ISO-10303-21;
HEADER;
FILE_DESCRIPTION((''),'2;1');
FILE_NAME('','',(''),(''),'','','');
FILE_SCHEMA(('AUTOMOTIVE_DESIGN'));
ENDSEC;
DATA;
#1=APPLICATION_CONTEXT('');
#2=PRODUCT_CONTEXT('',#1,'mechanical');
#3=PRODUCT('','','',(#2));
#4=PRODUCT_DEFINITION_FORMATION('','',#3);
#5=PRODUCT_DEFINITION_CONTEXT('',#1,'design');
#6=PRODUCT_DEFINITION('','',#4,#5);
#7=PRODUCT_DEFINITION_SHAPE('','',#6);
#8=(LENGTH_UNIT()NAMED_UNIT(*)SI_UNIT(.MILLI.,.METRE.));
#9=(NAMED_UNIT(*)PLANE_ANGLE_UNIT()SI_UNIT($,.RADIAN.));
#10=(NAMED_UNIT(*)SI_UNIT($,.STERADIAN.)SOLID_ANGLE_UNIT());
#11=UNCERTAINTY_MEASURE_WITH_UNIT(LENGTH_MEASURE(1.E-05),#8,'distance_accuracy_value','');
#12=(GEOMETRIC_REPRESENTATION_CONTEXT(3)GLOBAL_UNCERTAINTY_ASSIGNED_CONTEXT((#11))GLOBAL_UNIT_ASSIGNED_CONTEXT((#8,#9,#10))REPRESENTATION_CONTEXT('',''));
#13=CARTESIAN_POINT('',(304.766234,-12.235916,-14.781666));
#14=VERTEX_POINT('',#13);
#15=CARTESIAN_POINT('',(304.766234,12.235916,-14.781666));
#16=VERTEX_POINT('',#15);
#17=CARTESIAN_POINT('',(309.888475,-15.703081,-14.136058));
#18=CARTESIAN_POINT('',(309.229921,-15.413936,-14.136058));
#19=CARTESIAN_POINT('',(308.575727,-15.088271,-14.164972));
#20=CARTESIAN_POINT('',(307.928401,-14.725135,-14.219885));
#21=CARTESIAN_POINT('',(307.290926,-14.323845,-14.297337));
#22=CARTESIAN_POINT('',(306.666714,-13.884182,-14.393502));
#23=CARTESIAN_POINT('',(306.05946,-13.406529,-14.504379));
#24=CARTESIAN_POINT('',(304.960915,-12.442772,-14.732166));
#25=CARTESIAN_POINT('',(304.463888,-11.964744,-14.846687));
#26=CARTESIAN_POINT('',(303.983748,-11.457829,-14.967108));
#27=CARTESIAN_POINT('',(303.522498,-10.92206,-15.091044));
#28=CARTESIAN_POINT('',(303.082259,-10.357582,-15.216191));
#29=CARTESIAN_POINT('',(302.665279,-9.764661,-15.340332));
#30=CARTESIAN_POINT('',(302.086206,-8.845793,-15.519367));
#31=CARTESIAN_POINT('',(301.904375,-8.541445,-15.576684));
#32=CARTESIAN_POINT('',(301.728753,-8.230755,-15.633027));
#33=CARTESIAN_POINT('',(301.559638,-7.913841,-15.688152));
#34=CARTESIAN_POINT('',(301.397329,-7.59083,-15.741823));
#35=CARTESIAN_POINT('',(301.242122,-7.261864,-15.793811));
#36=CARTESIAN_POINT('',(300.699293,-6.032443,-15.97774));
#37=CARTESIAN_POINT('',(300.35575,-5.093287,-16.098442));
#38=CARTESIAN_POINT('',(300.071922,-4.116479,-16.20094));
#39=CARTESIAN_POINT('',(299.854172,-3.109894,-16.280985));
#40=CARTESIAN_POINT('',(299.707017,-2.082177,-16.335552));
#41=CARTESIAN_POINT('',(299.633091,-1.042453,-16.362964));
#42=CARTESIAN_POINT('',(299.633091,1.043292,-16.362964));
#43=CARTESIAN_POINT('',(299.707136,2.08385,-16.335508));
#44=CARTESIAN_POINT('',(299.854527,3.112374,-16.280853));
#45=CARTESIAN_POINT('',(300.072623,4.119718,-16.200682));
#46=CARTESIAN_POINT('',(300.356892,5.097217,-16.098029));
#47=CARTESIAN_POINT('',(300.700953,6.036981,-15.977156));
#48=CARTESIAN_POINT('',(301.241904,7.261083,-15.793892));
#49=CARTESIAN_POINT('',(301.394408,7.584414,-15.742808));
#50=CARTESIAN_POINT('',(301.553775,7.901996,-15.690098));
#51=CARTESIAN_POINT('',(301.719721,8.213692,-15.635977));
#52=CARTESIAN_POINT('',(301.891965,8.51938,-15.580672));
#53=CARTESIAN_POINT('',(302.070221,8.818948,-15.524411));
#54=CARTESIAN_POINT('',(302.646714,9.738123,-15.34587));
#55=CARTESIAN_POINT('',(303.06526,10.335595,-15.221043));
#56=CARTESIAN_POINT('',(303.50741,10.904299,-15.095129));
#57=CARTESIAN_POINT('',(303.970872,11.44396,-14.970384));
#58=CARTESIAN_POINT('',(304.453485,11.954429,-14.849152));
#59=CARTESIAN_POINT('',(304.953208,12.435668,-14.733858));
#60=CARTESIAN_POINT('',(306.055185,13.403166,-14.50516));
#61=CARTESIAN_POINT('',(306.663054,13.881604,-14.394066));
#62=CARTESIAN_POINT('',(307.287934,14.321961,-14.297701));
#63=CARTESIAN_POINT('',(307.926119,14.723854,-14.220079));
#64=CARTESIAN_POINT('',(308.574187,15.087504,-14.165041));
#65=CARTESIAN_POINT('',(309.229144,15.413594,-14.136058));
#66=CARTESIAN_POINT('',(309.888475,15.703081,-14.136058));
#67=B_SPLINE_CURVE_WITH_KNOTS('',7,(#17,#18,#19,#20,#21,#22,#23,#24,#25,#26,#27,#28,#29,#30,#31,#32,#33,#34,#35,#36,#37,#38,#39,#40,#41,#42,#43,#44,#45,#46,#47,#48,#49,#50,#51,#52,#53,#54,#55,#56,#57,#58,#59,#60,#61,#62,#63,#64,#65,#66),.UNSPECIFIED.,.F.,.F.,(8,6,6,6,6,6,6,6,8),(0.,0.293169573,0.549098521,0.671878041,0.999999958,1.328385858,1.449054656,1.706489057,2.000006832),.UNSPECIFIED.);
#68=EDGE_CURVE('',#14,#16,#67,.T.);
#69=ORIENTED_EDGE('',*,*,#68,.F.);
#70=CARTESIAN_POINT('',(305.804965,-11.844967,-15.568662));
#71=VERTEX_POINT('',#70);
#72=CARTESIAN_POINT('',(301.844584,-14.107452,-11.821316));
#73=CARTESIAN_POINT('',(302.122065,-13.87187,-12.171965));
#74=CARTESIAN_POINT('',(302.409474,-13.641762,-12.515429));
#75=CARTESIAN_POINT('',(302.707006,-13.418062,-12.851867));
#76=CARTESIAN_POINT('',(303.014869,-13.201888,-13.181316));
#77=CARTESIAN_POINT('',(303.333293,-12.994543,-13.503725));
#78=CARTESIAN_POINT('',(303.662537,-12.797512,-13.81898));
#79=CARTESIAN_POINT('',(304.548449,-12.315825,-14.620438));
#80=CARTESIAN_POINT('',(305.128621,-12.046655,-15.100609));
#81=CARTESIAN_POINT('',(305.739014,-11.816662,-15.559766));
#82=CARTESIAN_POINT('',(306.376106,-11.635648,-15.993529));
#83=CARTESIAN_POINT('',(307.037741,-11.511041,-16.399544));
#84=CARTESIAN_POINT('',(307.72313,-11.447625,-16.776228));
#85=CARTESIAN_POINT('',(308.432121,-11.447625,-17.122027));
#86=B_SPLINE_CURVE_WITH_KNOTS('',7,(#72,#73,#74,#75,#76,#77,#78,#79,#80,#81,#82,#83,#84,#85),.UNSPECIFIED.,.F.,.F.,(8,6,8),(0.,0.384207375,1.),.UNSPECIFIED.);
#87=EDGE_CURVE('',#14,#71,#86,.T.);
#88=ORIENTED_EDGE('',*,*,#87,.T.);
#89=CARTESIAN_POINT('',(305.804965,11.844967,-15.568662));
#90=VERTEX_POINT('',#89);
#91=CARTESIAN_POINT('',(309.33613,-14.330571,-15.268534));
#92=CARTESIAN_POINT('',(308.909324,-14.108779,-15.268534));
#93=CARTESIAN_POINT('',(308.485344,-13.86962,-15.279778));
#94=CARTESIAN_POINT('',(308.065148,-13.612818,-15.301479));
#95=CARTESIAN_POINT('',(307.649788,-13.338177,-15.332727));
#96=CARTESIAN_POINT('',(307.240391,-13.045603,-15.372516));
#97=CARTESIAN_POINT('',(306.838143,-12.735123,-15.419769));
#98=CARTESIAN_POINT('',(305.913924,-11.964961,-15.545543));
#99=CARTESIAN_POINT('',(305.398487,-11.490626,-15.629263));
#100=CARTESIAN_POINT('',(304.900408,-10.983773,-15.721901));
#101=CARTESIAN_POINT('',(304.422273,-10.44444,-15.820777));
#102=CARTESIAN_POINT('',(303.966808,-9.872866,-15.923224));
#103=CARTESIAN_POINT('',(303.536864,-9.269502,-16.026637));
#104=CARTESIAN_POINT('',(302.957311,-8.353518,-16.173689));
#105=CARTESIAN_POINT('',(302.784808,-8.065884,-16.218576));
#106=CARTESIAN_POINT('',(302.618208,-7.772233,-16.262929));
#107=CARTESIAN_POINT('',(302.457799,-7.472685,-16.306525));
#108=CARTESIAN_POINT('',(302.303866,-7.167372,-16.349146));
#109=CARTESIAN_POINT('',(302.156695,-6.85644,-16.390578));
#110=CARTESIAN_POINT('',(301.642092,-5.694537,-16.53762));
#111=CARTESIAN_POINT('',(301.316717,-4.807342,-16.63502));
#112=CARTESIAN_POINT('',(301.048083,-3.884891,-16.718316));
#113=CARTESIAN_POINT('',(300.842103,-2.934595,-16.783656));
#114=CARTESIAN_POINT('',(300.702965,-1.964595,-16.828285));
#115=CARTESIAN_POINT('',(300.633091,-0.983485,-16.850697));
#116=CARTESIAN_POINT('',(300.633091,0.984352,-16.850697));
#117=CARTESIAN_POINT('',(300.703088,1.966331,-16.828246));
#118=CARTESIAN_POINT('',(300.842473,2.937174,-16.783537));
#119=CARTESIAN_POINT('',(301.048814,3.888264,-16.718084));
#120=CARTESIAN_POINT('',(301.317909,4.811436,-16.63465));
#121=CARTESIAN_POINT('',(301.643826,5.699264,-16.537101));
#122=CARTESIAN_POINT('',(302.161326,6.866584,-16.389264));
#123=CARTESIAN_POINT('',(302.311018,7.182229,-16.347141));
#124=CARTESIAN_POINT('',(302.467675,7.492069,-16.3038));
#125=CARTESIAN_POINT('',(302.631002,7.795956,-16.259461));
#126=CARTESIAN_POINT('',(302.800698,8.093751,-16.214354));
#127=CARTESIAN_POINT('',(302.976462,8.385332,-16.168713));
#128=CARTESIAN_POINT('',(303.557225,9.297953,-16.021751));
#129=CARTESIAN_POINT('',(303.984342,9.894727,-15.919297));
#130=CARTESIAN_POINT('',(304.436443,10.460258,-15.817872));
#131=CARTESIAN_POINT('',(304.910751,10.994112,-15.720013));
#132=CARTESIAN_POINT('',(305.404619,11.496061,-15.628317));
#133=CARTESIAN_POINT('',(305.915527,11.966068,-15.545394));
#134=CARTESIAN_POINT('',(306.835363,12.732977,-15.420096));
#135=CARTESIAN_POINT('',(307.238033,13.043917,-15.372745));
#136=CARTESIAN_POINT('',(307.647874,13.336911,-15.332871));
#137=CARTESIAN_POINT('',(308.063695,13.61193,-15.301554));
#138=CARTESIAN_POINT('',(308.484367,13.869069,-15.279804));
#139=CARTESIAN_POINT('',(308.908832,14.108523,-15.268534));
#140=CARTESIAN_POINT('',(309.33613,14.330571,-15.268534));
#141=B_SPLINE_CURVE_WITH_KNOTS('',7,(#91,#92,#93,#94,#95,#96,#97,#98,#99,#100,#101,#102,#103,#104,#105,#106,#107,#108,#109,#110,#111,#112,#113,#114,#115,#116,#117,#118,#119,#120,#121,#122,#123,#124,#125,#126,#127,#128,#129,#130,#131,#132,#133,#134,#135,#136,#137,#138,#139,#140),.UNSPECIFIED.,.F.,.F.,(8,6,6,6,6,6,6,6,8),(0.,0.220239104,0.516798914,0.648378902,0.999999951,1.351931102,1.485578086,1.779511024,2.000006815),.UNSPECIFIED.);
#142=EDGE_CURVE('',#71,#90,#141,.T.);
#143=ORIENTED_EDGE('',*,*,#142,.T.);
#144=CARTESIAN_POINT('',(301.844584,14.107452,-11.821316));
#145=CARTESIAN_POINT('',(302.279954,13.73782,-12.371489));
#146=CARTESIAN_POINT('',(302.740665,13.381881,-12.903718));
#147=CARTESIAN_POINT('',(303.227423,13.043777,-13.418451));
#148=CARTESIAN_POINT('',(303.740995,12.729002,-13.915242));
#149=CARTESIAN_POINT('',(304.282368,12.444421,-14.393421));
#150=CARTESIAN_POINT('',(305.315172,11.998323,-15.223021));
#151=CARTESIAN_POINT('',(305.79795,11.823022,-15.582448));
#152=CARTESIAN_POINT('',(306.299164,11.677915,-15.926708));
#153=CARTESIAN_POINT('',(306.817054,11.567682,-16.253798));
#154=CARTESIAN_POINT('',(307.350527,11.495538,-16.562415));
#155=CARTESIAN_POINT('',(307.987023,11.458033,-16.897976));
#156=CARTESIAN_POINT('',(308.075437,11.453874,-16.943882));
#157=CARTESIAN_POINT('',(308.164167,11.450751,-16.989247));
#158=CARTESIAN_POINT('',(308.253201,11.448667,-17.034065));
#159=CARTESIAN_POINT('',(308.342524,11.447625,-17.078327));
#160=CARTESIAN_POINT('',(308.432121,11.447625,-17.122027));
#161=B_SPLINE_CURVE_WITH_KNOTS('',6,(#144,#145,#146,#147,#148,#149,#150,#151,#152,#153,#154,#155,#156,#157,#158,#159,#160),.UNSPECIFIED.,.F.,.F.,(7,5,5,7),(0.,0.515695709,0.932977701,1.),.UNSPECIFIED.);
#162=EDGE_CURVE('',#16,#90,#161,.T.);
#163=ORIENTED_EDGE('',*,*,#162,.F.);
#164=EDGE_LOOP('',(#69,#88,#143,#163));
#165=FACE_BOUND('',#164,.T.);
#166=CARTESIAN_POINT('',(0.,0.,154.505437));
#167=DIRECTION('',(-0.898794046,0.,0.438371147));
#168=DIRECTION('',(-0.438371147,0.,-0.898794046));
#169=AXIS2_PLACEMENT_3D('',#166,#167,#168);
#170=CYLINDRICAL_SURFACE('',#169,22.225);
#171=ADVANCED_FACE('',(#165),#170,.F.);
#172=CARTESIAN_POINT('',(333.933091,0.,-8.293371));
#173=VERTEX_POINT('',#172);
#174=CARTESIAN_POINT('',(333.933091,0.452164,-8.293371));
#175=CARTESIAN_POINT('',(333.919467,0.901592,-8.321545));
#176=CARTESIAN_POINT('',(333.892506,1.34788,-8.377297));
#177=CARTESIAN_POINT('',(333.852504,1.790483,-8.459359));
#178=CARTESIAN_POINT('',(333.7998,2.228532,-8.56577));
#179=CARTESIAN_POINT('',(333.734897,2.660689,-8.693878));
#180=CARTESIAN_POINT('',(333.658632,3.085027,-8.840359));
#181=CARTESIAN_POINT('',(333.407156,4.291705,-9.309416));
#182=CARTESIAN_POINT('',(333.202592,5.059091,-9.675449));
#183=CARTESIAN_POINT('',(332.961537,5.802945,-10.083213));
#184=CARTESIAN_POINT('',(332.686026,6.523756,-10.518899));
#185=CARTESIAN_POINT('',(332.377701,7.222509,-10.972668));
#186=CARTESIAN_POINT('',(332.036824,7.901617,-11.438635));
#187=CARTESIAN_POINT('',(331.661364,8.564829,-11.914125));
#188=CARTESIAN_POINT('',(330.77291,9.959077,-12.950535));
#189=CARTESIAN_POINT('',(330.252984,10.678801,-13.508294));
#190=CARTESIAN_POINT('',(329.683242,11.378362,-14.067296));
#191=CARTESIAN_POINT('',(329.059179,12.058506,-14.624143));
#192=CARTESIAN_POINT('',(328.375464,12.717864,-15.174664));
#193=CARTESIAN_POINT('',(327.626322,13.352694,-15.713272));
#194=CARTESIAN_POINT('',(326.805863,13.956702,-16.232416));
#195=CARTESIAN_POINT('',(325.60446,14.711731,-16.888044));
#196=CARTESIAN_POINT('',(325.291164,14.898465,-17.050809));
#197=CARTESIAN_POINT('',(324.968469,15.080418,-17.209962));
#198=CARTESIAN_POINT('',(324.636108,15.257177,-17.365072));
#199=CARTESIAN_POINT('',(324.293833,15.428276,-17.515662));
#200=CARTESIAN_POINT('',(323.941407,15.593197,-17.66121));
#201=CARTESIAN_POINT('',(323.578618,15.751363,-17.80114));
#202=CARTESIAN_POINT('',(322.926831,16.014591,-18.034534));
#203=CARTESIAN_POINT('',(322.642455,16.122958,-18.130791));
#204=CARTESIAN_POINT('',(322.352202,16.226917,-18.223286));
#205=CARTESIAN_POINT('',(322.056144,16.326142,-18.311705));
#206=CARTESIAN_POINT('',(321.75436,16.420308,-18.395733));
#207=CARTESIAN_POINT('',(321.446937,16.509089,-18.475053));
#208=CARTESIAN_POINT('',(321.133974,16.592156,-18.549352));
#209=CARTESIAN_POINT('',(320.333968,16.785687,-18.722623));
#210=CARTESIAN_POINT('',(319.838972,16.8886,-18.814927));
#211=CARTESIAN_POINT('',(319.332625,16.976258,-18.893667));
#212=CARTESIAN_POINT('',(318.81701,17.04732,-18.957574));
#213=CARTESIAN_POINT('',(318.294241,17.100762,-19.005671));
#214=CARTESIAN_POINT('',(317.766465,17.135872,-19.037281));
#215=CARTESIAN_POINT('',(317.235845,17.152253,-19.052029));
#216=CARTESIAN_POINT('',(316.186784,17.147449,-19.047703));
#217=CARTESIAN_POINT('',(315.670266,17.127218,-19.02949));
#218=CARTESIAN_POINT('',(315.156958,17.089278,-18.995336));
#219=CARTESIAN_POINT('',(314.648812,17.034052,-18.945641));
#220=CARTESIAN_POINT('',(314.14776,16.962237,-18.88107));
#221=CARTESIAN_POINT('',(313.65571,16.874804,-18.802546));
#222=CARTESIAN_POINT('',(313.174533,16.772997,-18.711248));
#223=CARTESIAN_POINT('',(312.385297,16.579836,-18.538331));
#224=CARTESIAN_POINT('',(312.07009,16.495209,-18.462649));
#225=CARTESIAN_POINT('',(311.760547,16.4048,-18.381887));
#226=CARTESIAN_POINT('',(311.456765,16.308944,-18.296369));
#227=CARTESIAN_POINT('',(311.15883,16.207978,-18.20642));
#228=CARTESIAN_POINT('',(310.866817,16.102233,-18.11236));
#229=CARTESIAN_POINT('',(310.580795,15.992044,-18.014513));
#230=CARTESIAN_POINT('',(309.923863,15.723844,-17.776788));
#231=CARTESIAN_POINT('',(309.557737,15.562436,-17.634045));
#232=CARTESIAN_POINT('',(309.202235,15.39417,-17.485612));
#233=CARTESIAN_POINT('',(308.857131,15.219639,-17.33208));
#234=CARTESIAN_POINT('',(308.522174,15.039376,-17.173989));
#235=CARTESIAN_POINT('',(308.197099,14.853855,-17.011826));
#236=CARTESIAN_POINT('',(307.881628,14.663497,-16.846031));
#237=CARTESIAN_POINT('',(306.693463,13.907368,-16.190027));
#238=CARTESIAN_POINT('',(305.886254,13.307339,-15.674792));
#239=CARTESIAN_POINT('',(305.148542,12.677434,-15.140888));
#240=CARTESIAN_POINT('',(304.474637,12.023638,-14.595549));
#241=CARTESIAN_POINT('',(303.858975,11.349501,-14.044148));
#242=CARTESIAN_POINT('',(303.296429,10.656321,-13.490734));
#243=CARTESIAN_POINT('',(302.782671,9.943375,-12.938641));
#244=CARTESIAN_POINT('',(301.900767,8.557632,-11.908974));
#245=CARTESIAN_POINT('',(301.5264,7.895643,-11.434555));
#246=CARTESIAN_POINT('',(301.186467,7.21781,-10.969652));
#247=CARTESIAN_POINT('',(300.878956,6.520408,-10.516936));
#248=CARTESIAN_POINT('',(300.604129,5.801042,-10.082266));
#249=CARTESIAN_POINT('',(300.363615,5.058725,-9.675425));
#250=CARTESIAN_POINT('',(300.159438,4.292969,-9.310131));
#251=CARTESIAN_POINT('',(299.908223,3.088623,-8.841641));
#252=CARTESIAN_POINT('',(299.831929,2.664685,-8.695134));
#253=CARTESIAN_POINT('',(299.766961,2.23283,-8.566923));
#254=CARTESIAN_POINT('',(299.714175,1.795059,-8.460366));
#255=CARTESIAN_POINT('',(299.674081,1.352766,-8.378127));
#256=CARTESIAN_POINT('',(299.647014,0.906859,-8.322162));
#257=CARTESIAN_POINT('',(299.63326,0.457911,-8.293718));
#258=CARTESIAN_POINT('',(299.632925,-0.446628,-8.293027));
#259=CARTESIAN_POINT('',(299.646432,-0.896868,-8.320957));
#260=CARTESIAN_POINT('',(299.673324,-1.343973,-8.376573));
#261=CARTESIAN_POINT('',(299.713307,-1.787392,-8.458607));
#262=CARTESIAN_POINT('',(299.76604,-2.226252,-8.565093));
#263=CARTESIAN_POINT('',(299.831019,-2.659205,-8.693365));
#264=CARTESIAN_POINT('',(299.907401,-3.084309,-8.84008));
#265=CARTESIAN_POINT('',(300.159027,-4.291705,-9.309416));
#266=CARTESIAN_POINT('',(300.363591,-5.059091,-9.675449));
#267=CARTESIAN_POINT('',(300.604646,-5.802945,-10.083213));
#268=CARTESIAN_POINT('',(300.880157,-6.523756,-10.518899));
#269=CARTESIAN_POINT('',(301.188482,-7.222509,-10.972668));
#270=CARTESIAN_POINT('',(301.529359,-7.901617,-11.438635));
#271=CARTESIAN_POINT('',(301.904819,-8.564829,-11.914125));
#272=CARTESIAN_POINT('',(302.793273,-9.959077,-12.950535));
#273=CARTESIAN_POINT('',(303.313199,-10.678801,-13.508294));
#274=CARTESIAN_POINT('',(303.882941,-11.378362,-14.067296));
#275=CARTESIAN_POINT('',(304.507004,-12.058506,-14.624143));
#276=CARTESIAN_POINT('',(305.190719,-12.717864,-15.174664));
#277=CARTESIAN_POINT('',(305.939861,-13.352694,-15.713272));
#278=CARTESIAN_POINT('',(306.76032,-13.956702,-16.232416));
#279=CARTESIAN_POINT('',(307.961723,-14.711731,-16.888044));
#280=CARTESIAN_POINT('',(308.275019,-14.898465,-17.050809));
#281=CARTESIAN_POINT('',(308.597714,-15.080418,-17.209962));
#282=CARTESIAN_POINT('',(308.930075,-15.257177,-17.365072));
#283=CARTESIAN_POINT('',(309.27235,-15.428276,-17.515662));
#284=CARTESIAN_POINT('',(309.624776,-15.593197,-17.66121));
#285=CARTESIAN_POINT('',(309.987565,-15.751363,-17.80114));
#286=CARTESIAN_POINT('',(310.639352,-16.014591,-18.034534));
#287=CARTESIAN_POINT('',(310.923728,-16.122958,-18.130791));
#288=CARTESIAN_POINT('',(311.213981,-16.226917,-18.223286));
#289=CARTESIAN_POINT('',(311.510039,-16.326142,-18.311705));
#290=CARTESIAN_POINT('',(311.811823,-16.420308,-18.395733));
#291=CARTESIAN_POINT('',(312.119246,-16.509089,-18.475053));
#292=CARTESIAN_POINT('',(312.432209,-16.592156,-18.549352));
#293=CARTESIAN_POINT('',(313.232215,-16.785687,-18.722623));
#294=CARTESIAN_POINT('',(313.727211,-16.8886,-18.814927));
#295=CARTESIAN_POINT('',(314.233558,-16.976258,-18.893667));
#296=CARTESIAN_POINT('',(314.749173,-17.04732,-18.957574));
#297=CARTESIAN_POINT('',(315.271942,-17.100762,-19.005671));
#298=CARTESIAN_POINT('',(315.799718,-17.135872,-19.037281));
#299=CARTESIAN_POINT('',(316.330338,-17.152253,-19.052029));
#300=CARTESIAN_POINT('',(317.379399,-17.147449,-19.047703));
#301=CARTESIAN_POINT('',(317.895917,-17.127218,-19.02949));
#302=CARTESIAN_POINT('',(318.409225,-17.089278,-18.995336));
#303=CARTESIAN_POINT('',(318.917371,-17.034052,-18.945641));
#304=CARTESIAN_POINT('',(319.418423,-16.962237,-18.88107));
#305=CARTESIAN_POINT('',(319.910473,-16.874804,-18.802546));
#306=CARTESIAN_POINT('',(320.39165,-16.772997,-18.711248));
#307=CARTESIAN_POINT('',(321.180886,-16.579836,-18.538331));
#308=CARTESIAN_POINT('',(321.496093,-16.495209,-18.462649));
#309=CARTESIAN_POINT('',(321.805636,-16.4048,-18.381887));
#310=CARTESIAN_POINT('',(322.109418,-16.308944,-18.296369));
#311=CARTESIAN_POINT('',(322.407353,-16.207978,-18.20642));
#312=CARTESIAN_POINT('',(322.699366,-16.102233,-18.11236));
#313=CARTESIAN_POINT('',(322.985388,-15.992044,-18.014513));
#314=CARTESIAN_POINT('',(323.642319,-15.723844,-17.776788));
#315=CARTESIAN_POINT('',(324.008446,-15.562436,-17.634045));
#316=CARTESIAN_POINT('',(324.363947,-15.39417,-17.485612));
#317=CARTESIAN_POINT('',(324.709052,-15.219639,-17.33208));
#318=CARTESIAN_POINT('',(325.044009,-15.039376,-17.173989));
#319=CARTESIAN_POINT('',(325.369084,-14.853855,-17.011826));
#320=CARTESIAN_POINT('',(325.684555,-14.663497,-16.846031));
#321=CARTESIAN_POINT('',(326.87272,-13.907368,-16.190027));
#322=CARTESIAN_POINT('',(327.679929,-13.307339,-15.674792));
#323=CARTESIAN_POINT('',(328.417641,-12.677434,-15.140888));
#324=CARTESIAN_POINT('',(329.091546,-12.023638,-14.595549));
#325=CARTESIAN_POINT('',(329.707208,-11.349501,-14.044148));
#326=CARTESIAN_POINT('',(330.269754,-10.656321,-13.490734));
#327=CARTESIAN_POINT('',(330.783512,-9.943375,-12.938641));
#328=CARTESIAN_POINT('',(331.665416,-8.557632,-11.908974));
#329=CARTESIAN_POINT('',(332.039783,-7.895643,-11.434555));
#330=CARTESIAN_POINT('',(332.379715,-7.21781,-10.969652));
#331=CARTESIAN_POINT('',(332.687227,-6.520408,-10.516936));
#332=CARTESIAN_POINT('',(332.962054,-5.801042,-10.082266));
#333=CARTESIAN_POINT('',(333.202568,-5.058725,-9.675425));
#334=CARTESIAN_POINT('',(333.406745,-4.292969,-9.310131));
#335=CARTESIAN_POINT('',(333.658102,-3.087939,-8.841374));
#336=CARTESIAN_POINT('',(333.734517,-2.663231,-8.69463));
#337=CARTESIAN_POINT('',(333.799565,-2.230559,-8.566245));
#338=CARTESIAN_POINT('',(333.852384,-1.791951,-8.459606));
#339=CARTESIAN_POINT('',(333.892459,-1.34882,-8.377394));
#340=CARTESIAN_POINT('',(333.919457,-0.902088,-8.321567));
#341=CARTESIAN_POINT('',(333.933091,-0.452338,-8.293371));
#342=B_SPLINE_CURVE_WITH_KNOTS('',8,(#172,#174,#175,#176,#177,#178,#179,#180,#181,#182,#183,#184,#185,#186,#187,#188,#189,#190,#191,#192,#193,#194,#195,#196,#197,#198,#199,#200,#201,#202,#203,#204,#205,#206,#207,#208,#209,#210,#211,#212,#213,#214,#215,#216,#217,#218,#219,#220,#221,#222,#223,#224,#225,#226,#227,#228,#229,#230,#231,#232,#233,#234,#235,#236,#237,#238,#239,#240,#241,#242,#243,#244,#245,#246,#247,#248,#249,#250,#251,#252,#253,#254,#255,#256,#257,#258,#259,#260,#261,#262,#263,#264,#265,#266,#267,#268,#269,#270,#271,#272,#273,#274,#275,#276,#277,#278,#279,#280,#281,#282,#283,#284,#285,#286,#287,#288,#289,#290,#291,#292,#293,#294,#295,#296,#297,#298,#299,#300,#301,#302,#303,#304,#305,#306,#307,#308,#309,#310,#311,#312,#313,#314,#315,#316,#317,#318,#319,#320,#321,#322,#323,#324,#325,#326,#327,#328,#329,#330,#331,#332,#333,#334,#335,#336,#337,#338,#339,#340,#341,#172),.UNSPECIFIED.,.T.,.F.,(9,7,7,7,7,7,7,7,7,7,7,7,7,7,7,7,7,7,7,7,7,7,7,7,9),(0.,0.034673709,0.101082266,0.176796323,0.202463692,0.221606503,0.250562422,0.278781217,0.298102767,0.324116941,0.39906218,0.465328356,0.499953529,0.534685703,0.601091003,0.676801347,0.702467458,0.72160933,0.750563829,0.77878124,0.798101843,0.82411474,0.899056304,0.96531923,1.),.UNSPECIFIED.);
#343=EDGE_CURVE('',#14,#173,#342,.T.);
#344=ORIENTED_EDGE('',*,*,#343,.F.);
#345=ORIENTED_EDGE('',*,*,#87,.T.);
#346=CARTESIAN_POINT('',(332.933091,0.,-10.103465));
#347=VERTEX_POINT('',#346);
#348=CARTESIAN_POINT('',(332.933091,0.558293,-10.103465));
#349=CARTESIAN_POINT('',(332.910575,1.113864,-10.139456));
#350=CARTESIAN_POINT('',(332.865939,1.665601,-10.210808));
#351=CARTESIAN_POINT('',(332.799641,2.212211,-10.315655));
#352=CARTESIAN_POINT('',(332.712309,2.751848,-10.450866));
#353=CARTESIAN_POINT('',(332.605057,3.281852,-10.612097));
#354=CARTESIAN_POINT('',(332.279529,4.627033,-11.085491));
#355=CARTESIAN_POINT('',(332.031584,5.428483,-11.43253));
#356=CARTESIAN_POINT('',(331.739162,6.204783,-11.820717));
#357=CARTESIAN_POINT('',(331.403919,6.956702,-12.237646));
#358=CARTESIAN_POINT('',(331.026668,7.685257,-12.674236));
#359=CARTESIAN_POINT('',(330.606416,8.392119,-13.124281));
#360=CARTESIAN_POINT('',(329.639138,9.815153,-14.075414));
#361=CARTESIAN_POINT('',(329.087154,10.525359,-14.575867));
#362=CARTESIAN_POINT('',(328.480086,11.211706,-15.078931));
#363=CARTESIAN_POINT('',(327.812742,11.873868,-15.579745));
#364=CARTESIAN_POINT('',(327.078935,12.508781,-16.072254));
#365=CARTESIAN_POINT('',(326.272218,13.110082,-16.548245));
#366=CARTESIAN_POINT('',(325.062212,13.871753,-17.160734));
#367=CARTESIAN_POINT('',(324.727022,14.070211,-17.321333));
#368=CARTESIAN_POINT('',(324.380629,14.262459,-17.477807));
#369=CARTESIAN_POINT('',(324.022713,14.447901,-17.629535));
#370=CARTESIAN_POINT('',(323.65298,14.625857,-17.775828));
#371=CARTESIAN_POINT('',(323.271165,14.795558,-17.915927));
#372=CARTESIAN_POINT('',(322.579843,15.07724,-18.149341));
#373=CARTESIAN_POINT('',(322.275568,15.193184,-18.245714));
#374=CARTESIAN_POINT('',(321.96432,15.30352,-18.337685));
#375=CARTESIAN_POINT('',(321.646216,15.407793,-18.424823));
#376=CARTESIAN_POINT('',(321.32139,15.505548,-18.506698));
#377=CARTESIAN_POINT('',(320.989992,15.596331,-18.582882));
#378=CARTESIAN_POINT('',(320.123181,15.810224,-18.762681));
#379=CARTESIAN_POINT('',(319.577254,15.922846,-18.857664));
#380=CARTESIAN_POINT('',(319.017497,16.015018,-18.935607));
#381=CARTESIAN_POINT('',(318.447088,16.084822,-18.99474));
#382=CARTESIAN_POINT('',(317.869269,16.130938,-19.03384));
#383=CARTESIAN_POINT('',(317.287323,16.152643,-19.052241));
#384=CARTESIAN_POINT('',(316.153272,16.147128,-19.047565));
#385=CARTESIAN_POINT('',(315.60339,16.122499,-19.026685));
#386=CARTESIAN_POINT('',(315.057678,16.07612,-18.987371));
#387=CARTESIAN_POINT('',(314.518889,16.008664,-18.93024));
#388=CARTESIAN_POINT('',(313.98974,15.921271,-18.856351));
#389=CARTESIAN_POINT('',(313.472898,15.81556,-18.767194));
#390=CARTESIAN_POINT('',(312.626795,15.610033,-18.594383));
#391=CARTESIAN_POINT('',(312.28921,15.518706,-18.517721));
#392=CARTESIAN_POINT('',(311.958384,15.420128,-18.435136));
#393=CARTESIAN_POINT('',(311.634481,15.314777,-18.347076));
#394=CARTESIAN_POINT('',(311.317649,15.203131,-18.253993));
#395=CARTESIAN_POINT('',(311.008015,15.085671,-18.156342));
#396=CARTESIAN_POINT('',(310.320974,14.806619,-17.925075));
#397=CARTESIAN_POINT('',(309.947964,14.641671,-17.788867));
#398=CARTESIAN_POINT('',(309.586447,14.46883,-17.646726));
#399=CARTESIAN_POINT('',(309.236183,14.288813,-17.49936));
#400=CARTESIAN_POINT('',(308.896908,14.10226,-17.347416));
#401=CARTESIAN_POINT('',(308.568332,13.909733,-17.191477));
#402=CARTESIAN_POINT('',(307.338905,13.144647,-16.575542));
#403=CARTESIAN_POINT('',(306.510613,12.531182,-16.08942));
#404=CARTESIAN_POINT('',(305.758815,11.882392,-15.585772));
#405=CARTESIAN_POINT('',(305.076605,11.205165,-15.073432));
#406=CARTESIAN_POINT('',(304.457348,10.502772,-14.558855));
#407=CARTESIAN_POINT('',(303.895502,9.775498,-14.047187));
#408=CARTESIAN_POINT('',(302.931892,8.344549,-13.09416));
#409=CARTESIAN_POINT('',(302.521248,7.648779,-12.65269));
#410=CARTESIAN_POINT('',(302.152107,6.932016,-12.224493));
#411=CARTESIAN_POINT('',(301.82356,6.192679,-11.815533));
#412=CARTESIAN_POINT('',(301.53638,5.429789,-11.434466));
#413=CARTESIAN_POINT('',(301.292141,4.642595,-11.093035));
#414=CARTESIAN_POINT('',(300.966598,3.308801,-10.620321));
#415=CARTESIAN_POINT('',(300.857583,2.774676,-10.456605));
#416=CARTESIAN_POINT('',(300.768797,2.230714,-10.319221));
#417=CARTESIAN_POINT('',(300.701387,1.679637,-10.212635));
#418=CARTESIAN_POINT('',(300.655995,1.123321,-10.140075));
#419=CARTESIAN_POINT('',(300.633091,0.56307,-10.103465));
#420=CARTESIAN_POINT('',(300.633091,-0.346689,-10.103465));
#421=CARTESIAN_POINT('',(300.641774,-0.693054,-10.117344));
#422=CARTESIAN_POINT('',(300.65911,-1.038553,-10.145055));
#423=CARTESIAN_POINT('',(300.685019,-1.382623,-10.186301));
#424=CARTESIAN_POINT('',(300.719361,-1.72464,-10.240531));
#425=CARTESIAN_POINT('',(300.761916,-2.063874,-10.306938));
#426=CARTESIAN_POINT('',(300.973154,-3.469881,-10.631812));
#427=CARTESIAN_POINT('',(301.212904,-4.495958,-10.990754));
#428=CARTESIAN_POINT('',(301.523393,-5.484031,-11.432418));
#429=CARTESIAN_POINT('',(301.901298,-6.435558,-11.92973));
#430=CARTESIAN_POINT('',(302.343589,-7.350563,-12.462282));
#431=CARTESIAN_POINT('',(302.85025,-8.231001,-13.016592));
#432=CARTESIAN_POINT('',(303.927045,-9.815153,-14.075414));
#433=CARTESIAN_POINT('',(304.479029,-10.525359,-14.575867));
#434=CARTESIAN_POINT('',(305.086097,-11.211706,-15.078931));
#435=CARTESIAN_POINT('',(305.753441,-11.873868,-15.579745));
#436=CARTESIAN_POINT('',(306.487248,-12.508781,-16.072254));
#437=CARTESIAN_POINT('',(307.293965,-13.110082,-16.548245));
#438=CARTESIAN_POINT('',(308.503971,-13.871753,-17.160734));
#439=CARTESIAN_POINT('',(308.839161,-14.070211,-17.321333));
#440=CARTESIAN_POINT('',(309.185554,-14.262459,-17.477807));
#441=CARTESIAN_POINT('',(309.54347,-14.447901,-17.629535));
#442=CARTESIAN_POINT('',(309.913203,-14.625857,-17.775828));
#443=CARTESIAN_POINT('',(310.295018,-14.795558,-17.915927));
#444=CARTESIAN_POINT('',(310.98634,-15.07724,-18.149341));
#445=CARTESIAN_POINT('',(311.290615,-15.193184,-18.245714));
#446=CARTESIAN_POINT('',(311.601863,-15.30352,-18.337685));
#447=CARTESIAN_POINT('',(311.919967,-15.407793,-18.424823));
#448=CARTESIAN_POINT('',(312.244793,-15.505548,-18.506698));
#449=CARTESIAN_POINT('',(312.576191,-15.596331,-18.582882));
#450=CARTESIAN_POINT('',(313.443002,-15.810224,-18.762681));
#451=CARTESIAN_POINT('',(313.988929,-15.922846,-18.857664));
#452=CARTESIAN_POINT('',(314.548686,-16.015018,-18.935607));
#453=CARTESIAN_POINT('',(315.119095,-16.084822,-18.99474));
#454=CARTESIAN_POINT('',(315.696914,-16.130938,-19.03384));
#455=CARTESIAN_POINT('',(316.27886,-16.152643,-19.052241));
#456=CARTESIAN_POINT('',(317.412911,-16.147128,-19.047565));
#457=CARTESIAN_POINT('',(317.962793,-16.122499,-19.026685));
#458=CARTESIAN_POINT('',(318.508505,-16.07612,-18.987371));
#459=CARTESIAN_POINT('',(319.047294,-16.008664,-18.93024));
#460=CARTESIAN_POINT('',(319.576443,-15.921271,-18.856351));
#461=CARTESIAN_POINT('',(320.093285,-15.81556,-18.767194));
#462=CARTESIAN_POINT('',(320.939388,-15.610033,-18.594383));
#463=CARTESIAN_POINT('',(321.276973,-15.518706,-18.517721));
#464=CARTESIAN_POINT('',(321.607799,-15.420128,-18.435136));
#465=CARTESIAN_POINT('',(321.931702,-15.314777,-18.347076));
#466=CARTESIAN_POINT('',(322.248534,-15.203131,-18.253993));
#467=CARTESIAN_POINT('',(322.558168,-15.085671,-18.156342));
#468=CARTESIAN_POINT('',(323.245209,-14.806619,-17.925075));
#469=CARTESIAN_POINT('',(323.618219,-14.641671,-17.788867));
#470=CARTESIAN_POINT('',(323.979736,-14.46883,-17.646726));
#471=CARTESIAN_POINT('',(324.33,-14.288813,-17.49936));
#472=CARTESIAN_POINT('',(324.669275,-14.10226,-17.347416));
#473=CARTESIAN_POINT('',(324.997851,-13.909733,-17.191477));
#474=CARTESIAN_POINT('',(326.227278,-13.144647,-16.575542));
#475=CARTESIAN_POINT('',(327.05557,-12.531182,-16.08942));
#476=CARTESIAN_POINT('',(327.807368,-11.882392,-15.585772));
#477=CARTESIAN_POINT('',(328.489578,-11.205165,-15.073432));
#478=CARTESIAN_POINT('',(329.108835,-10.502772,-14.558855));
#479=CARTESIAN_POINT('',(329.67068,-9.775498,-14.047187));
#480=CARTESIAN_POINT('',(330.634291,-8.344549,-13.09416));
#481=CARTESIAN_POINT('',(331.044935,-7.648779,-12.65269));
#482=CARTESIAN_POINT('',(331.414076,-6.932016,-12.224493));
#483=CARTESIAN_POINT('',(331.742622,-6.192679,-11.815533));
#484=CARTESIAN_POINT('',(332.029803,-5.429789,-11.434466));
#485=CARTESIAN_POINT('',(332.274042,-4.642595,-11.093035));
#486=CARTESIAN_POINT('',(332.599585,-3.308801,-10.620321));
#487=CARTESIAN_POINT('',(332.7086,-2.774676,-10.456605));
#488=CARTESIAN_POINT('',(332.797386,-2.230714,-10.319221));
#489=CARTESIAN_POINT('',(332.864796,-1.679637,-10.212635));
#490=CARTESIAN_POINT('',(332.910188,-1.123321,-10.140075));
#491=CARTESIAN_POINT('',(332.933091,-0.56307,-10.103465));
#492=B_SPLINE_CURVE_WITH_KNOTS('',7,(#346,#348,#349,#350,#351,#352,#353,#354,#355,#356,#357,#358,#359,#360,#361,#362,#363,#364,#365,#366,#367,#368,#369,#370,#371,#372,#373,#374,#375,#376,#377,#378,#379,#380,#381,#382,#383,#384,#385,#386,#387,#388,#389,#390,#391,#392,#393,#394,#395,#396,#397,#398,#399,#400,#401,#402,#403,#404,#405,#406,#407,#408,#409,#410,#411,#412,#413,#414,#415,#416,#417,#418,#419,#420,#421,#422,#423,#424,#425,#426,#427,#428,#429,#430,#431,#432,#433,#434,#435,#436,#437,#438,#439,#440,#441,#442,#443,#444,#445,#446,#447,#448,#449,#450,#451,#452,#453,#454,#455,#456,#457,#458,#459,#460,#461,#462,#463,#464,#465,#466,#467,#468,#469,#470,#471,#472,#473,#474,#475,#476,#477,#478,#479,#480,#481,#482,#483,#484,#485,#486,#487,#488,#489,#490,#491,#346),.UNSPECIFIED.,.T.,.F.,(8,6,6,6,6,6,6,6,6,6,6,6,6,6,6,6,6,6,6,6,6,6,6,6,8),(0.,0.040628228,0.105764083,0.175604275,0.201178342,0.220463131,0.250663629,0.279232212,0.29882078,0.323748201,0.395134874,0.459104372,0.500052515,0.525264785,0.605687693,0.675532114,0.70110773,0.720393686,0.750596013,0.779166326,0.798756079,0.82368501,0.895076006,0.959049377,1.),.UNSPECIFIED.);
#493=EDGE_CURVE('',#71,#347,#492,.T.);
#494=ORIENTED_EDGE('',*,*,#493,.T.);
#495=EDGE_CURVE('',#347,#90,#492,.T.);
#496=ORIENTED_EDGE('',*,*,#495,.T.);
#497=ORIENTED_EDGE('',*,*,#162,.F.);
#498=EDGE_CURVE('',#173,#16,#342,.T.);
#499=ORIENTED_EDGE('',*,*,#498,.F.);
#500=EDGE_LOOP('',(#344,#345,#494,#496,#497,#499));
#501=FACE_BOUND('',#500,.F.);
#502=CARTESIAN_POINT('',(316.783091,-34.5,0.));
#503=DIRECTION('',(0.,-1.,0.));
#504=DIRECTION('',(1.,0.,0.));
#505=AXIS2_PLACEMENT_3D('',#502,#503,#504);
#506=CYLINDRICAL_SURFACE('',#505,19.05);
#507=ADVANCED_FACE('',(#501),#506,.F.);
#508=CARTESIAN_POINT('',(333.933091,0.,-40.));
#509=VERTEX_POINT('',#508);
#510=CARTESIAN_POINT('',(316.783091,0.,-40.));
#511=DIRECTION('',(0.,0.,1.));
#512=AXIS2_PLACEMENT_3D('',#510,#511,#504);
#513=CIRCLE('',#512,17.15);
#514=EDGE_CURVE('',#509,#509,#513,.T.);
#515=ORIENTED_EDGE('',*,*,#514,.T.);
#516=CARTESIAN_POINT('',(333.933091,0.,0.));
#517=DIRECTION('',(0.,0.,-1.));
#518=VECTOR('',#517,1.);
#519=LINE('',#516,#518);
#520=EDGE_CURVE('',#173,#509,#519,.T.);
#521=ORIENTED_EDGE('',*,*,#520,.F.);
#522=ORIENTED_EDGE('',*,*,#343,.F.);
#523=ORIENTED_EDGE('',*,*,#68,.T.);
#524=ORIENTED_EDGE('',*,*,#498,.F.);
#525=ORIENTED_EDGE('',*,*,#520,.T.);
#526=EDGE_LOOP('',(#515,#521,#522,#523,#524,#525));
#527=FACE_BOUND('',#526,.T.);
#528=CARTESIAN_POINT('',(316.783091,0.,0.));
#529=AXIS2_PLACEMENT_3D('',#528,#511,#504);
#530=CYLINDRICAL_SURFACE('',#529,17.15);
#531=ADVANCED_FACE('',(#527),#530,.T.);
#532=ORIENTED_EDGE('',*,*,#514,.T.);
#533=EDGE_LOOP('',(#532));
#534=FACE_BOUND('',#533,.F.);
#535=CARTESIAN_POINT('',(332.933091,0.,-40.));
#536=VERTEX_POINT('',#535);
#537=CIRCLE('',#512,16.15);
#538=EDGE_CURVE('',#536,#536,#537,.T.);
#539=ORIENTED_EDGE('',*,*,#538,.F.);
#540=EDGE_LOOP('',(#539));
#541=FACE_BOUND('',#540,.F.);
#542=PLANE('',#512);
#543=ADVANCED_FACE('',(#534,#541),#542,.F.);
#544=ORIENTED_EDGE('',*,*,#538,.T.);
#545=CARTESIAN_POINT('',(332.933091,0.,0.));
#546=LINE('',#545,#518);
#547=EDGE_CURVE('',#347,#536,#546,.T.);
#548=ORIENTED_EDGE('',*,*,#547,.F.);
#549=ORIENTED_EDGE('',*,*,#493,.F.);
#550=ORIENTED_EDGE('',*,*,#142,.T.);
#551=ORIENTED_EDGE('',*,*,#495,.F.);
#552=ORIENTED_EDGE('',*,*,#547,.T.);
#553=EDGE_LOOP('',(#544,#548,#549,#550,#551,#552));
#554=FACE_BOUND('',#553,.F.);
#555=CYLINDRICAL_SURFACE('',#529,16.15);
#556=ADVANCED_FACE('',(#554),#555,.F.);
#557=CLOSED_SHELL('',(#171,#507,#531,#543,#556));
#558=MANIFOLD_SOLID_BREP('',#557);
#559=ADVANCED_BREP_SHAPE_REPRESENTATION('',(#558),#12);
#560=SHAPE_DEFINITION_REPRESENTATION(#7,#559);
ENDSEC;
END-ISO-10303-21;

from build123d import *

# Parameters (mm, degrees)
SKETCH1_R           = 17.15
SKETCH1_R_2         = 16.15
BOSS_EXTRUDE1_DEPTH = 40
SKETCH2_R           = 22.225
CUT_EXTRUDE1_DEPTH  = 352.453482
SKETCH3_R           = 19.05
CUT_EXTRUDE2_DEPTH  = 52.6500001


with BuildPart() as part:
    # Sketch1 → Boss-Extrude1 (new body)
    with BuildSketch(Plane.XY):
        with Locations((316.783091477, 0)):
            Circle(SKETCH1_R)
        with Locations((316.783091477, 0)):
            Circle(SKETCH1_R_2, mode=Mode.SUBTRACT)
    extrude(amount=-BOSS_EXTRUDE1_DEPTH)

    # Sketch2 → Cut-Extrude1 (cut)
    with BuildSketch(Plane(origin=(-60.87597301, 0, 29.691195898), x_dir=(-0.438371147, 0, -0.898794046), z_dir=(0.898794046, 0, -0.438371147))):
        with Locations((-138.868567094, 0)):
            Circle(SKETCH2_R)
    extrude(amount=CUT_EXTRUDE1_DEPTH, mode=Mode.SUBTRACT)

    # Sketch3 → Cut-Extrude2 (cut, through all)
    with BuildSketch(Plane.XZ.offset(34.5)):
        with Locations((316.783091477, 0)):
            Circle(SKETCH3_R)
    extrude(amount=-CUT_EXTRUDE2_DEPTH, mode=Mode.SUBTRACT)


solid = part.part
